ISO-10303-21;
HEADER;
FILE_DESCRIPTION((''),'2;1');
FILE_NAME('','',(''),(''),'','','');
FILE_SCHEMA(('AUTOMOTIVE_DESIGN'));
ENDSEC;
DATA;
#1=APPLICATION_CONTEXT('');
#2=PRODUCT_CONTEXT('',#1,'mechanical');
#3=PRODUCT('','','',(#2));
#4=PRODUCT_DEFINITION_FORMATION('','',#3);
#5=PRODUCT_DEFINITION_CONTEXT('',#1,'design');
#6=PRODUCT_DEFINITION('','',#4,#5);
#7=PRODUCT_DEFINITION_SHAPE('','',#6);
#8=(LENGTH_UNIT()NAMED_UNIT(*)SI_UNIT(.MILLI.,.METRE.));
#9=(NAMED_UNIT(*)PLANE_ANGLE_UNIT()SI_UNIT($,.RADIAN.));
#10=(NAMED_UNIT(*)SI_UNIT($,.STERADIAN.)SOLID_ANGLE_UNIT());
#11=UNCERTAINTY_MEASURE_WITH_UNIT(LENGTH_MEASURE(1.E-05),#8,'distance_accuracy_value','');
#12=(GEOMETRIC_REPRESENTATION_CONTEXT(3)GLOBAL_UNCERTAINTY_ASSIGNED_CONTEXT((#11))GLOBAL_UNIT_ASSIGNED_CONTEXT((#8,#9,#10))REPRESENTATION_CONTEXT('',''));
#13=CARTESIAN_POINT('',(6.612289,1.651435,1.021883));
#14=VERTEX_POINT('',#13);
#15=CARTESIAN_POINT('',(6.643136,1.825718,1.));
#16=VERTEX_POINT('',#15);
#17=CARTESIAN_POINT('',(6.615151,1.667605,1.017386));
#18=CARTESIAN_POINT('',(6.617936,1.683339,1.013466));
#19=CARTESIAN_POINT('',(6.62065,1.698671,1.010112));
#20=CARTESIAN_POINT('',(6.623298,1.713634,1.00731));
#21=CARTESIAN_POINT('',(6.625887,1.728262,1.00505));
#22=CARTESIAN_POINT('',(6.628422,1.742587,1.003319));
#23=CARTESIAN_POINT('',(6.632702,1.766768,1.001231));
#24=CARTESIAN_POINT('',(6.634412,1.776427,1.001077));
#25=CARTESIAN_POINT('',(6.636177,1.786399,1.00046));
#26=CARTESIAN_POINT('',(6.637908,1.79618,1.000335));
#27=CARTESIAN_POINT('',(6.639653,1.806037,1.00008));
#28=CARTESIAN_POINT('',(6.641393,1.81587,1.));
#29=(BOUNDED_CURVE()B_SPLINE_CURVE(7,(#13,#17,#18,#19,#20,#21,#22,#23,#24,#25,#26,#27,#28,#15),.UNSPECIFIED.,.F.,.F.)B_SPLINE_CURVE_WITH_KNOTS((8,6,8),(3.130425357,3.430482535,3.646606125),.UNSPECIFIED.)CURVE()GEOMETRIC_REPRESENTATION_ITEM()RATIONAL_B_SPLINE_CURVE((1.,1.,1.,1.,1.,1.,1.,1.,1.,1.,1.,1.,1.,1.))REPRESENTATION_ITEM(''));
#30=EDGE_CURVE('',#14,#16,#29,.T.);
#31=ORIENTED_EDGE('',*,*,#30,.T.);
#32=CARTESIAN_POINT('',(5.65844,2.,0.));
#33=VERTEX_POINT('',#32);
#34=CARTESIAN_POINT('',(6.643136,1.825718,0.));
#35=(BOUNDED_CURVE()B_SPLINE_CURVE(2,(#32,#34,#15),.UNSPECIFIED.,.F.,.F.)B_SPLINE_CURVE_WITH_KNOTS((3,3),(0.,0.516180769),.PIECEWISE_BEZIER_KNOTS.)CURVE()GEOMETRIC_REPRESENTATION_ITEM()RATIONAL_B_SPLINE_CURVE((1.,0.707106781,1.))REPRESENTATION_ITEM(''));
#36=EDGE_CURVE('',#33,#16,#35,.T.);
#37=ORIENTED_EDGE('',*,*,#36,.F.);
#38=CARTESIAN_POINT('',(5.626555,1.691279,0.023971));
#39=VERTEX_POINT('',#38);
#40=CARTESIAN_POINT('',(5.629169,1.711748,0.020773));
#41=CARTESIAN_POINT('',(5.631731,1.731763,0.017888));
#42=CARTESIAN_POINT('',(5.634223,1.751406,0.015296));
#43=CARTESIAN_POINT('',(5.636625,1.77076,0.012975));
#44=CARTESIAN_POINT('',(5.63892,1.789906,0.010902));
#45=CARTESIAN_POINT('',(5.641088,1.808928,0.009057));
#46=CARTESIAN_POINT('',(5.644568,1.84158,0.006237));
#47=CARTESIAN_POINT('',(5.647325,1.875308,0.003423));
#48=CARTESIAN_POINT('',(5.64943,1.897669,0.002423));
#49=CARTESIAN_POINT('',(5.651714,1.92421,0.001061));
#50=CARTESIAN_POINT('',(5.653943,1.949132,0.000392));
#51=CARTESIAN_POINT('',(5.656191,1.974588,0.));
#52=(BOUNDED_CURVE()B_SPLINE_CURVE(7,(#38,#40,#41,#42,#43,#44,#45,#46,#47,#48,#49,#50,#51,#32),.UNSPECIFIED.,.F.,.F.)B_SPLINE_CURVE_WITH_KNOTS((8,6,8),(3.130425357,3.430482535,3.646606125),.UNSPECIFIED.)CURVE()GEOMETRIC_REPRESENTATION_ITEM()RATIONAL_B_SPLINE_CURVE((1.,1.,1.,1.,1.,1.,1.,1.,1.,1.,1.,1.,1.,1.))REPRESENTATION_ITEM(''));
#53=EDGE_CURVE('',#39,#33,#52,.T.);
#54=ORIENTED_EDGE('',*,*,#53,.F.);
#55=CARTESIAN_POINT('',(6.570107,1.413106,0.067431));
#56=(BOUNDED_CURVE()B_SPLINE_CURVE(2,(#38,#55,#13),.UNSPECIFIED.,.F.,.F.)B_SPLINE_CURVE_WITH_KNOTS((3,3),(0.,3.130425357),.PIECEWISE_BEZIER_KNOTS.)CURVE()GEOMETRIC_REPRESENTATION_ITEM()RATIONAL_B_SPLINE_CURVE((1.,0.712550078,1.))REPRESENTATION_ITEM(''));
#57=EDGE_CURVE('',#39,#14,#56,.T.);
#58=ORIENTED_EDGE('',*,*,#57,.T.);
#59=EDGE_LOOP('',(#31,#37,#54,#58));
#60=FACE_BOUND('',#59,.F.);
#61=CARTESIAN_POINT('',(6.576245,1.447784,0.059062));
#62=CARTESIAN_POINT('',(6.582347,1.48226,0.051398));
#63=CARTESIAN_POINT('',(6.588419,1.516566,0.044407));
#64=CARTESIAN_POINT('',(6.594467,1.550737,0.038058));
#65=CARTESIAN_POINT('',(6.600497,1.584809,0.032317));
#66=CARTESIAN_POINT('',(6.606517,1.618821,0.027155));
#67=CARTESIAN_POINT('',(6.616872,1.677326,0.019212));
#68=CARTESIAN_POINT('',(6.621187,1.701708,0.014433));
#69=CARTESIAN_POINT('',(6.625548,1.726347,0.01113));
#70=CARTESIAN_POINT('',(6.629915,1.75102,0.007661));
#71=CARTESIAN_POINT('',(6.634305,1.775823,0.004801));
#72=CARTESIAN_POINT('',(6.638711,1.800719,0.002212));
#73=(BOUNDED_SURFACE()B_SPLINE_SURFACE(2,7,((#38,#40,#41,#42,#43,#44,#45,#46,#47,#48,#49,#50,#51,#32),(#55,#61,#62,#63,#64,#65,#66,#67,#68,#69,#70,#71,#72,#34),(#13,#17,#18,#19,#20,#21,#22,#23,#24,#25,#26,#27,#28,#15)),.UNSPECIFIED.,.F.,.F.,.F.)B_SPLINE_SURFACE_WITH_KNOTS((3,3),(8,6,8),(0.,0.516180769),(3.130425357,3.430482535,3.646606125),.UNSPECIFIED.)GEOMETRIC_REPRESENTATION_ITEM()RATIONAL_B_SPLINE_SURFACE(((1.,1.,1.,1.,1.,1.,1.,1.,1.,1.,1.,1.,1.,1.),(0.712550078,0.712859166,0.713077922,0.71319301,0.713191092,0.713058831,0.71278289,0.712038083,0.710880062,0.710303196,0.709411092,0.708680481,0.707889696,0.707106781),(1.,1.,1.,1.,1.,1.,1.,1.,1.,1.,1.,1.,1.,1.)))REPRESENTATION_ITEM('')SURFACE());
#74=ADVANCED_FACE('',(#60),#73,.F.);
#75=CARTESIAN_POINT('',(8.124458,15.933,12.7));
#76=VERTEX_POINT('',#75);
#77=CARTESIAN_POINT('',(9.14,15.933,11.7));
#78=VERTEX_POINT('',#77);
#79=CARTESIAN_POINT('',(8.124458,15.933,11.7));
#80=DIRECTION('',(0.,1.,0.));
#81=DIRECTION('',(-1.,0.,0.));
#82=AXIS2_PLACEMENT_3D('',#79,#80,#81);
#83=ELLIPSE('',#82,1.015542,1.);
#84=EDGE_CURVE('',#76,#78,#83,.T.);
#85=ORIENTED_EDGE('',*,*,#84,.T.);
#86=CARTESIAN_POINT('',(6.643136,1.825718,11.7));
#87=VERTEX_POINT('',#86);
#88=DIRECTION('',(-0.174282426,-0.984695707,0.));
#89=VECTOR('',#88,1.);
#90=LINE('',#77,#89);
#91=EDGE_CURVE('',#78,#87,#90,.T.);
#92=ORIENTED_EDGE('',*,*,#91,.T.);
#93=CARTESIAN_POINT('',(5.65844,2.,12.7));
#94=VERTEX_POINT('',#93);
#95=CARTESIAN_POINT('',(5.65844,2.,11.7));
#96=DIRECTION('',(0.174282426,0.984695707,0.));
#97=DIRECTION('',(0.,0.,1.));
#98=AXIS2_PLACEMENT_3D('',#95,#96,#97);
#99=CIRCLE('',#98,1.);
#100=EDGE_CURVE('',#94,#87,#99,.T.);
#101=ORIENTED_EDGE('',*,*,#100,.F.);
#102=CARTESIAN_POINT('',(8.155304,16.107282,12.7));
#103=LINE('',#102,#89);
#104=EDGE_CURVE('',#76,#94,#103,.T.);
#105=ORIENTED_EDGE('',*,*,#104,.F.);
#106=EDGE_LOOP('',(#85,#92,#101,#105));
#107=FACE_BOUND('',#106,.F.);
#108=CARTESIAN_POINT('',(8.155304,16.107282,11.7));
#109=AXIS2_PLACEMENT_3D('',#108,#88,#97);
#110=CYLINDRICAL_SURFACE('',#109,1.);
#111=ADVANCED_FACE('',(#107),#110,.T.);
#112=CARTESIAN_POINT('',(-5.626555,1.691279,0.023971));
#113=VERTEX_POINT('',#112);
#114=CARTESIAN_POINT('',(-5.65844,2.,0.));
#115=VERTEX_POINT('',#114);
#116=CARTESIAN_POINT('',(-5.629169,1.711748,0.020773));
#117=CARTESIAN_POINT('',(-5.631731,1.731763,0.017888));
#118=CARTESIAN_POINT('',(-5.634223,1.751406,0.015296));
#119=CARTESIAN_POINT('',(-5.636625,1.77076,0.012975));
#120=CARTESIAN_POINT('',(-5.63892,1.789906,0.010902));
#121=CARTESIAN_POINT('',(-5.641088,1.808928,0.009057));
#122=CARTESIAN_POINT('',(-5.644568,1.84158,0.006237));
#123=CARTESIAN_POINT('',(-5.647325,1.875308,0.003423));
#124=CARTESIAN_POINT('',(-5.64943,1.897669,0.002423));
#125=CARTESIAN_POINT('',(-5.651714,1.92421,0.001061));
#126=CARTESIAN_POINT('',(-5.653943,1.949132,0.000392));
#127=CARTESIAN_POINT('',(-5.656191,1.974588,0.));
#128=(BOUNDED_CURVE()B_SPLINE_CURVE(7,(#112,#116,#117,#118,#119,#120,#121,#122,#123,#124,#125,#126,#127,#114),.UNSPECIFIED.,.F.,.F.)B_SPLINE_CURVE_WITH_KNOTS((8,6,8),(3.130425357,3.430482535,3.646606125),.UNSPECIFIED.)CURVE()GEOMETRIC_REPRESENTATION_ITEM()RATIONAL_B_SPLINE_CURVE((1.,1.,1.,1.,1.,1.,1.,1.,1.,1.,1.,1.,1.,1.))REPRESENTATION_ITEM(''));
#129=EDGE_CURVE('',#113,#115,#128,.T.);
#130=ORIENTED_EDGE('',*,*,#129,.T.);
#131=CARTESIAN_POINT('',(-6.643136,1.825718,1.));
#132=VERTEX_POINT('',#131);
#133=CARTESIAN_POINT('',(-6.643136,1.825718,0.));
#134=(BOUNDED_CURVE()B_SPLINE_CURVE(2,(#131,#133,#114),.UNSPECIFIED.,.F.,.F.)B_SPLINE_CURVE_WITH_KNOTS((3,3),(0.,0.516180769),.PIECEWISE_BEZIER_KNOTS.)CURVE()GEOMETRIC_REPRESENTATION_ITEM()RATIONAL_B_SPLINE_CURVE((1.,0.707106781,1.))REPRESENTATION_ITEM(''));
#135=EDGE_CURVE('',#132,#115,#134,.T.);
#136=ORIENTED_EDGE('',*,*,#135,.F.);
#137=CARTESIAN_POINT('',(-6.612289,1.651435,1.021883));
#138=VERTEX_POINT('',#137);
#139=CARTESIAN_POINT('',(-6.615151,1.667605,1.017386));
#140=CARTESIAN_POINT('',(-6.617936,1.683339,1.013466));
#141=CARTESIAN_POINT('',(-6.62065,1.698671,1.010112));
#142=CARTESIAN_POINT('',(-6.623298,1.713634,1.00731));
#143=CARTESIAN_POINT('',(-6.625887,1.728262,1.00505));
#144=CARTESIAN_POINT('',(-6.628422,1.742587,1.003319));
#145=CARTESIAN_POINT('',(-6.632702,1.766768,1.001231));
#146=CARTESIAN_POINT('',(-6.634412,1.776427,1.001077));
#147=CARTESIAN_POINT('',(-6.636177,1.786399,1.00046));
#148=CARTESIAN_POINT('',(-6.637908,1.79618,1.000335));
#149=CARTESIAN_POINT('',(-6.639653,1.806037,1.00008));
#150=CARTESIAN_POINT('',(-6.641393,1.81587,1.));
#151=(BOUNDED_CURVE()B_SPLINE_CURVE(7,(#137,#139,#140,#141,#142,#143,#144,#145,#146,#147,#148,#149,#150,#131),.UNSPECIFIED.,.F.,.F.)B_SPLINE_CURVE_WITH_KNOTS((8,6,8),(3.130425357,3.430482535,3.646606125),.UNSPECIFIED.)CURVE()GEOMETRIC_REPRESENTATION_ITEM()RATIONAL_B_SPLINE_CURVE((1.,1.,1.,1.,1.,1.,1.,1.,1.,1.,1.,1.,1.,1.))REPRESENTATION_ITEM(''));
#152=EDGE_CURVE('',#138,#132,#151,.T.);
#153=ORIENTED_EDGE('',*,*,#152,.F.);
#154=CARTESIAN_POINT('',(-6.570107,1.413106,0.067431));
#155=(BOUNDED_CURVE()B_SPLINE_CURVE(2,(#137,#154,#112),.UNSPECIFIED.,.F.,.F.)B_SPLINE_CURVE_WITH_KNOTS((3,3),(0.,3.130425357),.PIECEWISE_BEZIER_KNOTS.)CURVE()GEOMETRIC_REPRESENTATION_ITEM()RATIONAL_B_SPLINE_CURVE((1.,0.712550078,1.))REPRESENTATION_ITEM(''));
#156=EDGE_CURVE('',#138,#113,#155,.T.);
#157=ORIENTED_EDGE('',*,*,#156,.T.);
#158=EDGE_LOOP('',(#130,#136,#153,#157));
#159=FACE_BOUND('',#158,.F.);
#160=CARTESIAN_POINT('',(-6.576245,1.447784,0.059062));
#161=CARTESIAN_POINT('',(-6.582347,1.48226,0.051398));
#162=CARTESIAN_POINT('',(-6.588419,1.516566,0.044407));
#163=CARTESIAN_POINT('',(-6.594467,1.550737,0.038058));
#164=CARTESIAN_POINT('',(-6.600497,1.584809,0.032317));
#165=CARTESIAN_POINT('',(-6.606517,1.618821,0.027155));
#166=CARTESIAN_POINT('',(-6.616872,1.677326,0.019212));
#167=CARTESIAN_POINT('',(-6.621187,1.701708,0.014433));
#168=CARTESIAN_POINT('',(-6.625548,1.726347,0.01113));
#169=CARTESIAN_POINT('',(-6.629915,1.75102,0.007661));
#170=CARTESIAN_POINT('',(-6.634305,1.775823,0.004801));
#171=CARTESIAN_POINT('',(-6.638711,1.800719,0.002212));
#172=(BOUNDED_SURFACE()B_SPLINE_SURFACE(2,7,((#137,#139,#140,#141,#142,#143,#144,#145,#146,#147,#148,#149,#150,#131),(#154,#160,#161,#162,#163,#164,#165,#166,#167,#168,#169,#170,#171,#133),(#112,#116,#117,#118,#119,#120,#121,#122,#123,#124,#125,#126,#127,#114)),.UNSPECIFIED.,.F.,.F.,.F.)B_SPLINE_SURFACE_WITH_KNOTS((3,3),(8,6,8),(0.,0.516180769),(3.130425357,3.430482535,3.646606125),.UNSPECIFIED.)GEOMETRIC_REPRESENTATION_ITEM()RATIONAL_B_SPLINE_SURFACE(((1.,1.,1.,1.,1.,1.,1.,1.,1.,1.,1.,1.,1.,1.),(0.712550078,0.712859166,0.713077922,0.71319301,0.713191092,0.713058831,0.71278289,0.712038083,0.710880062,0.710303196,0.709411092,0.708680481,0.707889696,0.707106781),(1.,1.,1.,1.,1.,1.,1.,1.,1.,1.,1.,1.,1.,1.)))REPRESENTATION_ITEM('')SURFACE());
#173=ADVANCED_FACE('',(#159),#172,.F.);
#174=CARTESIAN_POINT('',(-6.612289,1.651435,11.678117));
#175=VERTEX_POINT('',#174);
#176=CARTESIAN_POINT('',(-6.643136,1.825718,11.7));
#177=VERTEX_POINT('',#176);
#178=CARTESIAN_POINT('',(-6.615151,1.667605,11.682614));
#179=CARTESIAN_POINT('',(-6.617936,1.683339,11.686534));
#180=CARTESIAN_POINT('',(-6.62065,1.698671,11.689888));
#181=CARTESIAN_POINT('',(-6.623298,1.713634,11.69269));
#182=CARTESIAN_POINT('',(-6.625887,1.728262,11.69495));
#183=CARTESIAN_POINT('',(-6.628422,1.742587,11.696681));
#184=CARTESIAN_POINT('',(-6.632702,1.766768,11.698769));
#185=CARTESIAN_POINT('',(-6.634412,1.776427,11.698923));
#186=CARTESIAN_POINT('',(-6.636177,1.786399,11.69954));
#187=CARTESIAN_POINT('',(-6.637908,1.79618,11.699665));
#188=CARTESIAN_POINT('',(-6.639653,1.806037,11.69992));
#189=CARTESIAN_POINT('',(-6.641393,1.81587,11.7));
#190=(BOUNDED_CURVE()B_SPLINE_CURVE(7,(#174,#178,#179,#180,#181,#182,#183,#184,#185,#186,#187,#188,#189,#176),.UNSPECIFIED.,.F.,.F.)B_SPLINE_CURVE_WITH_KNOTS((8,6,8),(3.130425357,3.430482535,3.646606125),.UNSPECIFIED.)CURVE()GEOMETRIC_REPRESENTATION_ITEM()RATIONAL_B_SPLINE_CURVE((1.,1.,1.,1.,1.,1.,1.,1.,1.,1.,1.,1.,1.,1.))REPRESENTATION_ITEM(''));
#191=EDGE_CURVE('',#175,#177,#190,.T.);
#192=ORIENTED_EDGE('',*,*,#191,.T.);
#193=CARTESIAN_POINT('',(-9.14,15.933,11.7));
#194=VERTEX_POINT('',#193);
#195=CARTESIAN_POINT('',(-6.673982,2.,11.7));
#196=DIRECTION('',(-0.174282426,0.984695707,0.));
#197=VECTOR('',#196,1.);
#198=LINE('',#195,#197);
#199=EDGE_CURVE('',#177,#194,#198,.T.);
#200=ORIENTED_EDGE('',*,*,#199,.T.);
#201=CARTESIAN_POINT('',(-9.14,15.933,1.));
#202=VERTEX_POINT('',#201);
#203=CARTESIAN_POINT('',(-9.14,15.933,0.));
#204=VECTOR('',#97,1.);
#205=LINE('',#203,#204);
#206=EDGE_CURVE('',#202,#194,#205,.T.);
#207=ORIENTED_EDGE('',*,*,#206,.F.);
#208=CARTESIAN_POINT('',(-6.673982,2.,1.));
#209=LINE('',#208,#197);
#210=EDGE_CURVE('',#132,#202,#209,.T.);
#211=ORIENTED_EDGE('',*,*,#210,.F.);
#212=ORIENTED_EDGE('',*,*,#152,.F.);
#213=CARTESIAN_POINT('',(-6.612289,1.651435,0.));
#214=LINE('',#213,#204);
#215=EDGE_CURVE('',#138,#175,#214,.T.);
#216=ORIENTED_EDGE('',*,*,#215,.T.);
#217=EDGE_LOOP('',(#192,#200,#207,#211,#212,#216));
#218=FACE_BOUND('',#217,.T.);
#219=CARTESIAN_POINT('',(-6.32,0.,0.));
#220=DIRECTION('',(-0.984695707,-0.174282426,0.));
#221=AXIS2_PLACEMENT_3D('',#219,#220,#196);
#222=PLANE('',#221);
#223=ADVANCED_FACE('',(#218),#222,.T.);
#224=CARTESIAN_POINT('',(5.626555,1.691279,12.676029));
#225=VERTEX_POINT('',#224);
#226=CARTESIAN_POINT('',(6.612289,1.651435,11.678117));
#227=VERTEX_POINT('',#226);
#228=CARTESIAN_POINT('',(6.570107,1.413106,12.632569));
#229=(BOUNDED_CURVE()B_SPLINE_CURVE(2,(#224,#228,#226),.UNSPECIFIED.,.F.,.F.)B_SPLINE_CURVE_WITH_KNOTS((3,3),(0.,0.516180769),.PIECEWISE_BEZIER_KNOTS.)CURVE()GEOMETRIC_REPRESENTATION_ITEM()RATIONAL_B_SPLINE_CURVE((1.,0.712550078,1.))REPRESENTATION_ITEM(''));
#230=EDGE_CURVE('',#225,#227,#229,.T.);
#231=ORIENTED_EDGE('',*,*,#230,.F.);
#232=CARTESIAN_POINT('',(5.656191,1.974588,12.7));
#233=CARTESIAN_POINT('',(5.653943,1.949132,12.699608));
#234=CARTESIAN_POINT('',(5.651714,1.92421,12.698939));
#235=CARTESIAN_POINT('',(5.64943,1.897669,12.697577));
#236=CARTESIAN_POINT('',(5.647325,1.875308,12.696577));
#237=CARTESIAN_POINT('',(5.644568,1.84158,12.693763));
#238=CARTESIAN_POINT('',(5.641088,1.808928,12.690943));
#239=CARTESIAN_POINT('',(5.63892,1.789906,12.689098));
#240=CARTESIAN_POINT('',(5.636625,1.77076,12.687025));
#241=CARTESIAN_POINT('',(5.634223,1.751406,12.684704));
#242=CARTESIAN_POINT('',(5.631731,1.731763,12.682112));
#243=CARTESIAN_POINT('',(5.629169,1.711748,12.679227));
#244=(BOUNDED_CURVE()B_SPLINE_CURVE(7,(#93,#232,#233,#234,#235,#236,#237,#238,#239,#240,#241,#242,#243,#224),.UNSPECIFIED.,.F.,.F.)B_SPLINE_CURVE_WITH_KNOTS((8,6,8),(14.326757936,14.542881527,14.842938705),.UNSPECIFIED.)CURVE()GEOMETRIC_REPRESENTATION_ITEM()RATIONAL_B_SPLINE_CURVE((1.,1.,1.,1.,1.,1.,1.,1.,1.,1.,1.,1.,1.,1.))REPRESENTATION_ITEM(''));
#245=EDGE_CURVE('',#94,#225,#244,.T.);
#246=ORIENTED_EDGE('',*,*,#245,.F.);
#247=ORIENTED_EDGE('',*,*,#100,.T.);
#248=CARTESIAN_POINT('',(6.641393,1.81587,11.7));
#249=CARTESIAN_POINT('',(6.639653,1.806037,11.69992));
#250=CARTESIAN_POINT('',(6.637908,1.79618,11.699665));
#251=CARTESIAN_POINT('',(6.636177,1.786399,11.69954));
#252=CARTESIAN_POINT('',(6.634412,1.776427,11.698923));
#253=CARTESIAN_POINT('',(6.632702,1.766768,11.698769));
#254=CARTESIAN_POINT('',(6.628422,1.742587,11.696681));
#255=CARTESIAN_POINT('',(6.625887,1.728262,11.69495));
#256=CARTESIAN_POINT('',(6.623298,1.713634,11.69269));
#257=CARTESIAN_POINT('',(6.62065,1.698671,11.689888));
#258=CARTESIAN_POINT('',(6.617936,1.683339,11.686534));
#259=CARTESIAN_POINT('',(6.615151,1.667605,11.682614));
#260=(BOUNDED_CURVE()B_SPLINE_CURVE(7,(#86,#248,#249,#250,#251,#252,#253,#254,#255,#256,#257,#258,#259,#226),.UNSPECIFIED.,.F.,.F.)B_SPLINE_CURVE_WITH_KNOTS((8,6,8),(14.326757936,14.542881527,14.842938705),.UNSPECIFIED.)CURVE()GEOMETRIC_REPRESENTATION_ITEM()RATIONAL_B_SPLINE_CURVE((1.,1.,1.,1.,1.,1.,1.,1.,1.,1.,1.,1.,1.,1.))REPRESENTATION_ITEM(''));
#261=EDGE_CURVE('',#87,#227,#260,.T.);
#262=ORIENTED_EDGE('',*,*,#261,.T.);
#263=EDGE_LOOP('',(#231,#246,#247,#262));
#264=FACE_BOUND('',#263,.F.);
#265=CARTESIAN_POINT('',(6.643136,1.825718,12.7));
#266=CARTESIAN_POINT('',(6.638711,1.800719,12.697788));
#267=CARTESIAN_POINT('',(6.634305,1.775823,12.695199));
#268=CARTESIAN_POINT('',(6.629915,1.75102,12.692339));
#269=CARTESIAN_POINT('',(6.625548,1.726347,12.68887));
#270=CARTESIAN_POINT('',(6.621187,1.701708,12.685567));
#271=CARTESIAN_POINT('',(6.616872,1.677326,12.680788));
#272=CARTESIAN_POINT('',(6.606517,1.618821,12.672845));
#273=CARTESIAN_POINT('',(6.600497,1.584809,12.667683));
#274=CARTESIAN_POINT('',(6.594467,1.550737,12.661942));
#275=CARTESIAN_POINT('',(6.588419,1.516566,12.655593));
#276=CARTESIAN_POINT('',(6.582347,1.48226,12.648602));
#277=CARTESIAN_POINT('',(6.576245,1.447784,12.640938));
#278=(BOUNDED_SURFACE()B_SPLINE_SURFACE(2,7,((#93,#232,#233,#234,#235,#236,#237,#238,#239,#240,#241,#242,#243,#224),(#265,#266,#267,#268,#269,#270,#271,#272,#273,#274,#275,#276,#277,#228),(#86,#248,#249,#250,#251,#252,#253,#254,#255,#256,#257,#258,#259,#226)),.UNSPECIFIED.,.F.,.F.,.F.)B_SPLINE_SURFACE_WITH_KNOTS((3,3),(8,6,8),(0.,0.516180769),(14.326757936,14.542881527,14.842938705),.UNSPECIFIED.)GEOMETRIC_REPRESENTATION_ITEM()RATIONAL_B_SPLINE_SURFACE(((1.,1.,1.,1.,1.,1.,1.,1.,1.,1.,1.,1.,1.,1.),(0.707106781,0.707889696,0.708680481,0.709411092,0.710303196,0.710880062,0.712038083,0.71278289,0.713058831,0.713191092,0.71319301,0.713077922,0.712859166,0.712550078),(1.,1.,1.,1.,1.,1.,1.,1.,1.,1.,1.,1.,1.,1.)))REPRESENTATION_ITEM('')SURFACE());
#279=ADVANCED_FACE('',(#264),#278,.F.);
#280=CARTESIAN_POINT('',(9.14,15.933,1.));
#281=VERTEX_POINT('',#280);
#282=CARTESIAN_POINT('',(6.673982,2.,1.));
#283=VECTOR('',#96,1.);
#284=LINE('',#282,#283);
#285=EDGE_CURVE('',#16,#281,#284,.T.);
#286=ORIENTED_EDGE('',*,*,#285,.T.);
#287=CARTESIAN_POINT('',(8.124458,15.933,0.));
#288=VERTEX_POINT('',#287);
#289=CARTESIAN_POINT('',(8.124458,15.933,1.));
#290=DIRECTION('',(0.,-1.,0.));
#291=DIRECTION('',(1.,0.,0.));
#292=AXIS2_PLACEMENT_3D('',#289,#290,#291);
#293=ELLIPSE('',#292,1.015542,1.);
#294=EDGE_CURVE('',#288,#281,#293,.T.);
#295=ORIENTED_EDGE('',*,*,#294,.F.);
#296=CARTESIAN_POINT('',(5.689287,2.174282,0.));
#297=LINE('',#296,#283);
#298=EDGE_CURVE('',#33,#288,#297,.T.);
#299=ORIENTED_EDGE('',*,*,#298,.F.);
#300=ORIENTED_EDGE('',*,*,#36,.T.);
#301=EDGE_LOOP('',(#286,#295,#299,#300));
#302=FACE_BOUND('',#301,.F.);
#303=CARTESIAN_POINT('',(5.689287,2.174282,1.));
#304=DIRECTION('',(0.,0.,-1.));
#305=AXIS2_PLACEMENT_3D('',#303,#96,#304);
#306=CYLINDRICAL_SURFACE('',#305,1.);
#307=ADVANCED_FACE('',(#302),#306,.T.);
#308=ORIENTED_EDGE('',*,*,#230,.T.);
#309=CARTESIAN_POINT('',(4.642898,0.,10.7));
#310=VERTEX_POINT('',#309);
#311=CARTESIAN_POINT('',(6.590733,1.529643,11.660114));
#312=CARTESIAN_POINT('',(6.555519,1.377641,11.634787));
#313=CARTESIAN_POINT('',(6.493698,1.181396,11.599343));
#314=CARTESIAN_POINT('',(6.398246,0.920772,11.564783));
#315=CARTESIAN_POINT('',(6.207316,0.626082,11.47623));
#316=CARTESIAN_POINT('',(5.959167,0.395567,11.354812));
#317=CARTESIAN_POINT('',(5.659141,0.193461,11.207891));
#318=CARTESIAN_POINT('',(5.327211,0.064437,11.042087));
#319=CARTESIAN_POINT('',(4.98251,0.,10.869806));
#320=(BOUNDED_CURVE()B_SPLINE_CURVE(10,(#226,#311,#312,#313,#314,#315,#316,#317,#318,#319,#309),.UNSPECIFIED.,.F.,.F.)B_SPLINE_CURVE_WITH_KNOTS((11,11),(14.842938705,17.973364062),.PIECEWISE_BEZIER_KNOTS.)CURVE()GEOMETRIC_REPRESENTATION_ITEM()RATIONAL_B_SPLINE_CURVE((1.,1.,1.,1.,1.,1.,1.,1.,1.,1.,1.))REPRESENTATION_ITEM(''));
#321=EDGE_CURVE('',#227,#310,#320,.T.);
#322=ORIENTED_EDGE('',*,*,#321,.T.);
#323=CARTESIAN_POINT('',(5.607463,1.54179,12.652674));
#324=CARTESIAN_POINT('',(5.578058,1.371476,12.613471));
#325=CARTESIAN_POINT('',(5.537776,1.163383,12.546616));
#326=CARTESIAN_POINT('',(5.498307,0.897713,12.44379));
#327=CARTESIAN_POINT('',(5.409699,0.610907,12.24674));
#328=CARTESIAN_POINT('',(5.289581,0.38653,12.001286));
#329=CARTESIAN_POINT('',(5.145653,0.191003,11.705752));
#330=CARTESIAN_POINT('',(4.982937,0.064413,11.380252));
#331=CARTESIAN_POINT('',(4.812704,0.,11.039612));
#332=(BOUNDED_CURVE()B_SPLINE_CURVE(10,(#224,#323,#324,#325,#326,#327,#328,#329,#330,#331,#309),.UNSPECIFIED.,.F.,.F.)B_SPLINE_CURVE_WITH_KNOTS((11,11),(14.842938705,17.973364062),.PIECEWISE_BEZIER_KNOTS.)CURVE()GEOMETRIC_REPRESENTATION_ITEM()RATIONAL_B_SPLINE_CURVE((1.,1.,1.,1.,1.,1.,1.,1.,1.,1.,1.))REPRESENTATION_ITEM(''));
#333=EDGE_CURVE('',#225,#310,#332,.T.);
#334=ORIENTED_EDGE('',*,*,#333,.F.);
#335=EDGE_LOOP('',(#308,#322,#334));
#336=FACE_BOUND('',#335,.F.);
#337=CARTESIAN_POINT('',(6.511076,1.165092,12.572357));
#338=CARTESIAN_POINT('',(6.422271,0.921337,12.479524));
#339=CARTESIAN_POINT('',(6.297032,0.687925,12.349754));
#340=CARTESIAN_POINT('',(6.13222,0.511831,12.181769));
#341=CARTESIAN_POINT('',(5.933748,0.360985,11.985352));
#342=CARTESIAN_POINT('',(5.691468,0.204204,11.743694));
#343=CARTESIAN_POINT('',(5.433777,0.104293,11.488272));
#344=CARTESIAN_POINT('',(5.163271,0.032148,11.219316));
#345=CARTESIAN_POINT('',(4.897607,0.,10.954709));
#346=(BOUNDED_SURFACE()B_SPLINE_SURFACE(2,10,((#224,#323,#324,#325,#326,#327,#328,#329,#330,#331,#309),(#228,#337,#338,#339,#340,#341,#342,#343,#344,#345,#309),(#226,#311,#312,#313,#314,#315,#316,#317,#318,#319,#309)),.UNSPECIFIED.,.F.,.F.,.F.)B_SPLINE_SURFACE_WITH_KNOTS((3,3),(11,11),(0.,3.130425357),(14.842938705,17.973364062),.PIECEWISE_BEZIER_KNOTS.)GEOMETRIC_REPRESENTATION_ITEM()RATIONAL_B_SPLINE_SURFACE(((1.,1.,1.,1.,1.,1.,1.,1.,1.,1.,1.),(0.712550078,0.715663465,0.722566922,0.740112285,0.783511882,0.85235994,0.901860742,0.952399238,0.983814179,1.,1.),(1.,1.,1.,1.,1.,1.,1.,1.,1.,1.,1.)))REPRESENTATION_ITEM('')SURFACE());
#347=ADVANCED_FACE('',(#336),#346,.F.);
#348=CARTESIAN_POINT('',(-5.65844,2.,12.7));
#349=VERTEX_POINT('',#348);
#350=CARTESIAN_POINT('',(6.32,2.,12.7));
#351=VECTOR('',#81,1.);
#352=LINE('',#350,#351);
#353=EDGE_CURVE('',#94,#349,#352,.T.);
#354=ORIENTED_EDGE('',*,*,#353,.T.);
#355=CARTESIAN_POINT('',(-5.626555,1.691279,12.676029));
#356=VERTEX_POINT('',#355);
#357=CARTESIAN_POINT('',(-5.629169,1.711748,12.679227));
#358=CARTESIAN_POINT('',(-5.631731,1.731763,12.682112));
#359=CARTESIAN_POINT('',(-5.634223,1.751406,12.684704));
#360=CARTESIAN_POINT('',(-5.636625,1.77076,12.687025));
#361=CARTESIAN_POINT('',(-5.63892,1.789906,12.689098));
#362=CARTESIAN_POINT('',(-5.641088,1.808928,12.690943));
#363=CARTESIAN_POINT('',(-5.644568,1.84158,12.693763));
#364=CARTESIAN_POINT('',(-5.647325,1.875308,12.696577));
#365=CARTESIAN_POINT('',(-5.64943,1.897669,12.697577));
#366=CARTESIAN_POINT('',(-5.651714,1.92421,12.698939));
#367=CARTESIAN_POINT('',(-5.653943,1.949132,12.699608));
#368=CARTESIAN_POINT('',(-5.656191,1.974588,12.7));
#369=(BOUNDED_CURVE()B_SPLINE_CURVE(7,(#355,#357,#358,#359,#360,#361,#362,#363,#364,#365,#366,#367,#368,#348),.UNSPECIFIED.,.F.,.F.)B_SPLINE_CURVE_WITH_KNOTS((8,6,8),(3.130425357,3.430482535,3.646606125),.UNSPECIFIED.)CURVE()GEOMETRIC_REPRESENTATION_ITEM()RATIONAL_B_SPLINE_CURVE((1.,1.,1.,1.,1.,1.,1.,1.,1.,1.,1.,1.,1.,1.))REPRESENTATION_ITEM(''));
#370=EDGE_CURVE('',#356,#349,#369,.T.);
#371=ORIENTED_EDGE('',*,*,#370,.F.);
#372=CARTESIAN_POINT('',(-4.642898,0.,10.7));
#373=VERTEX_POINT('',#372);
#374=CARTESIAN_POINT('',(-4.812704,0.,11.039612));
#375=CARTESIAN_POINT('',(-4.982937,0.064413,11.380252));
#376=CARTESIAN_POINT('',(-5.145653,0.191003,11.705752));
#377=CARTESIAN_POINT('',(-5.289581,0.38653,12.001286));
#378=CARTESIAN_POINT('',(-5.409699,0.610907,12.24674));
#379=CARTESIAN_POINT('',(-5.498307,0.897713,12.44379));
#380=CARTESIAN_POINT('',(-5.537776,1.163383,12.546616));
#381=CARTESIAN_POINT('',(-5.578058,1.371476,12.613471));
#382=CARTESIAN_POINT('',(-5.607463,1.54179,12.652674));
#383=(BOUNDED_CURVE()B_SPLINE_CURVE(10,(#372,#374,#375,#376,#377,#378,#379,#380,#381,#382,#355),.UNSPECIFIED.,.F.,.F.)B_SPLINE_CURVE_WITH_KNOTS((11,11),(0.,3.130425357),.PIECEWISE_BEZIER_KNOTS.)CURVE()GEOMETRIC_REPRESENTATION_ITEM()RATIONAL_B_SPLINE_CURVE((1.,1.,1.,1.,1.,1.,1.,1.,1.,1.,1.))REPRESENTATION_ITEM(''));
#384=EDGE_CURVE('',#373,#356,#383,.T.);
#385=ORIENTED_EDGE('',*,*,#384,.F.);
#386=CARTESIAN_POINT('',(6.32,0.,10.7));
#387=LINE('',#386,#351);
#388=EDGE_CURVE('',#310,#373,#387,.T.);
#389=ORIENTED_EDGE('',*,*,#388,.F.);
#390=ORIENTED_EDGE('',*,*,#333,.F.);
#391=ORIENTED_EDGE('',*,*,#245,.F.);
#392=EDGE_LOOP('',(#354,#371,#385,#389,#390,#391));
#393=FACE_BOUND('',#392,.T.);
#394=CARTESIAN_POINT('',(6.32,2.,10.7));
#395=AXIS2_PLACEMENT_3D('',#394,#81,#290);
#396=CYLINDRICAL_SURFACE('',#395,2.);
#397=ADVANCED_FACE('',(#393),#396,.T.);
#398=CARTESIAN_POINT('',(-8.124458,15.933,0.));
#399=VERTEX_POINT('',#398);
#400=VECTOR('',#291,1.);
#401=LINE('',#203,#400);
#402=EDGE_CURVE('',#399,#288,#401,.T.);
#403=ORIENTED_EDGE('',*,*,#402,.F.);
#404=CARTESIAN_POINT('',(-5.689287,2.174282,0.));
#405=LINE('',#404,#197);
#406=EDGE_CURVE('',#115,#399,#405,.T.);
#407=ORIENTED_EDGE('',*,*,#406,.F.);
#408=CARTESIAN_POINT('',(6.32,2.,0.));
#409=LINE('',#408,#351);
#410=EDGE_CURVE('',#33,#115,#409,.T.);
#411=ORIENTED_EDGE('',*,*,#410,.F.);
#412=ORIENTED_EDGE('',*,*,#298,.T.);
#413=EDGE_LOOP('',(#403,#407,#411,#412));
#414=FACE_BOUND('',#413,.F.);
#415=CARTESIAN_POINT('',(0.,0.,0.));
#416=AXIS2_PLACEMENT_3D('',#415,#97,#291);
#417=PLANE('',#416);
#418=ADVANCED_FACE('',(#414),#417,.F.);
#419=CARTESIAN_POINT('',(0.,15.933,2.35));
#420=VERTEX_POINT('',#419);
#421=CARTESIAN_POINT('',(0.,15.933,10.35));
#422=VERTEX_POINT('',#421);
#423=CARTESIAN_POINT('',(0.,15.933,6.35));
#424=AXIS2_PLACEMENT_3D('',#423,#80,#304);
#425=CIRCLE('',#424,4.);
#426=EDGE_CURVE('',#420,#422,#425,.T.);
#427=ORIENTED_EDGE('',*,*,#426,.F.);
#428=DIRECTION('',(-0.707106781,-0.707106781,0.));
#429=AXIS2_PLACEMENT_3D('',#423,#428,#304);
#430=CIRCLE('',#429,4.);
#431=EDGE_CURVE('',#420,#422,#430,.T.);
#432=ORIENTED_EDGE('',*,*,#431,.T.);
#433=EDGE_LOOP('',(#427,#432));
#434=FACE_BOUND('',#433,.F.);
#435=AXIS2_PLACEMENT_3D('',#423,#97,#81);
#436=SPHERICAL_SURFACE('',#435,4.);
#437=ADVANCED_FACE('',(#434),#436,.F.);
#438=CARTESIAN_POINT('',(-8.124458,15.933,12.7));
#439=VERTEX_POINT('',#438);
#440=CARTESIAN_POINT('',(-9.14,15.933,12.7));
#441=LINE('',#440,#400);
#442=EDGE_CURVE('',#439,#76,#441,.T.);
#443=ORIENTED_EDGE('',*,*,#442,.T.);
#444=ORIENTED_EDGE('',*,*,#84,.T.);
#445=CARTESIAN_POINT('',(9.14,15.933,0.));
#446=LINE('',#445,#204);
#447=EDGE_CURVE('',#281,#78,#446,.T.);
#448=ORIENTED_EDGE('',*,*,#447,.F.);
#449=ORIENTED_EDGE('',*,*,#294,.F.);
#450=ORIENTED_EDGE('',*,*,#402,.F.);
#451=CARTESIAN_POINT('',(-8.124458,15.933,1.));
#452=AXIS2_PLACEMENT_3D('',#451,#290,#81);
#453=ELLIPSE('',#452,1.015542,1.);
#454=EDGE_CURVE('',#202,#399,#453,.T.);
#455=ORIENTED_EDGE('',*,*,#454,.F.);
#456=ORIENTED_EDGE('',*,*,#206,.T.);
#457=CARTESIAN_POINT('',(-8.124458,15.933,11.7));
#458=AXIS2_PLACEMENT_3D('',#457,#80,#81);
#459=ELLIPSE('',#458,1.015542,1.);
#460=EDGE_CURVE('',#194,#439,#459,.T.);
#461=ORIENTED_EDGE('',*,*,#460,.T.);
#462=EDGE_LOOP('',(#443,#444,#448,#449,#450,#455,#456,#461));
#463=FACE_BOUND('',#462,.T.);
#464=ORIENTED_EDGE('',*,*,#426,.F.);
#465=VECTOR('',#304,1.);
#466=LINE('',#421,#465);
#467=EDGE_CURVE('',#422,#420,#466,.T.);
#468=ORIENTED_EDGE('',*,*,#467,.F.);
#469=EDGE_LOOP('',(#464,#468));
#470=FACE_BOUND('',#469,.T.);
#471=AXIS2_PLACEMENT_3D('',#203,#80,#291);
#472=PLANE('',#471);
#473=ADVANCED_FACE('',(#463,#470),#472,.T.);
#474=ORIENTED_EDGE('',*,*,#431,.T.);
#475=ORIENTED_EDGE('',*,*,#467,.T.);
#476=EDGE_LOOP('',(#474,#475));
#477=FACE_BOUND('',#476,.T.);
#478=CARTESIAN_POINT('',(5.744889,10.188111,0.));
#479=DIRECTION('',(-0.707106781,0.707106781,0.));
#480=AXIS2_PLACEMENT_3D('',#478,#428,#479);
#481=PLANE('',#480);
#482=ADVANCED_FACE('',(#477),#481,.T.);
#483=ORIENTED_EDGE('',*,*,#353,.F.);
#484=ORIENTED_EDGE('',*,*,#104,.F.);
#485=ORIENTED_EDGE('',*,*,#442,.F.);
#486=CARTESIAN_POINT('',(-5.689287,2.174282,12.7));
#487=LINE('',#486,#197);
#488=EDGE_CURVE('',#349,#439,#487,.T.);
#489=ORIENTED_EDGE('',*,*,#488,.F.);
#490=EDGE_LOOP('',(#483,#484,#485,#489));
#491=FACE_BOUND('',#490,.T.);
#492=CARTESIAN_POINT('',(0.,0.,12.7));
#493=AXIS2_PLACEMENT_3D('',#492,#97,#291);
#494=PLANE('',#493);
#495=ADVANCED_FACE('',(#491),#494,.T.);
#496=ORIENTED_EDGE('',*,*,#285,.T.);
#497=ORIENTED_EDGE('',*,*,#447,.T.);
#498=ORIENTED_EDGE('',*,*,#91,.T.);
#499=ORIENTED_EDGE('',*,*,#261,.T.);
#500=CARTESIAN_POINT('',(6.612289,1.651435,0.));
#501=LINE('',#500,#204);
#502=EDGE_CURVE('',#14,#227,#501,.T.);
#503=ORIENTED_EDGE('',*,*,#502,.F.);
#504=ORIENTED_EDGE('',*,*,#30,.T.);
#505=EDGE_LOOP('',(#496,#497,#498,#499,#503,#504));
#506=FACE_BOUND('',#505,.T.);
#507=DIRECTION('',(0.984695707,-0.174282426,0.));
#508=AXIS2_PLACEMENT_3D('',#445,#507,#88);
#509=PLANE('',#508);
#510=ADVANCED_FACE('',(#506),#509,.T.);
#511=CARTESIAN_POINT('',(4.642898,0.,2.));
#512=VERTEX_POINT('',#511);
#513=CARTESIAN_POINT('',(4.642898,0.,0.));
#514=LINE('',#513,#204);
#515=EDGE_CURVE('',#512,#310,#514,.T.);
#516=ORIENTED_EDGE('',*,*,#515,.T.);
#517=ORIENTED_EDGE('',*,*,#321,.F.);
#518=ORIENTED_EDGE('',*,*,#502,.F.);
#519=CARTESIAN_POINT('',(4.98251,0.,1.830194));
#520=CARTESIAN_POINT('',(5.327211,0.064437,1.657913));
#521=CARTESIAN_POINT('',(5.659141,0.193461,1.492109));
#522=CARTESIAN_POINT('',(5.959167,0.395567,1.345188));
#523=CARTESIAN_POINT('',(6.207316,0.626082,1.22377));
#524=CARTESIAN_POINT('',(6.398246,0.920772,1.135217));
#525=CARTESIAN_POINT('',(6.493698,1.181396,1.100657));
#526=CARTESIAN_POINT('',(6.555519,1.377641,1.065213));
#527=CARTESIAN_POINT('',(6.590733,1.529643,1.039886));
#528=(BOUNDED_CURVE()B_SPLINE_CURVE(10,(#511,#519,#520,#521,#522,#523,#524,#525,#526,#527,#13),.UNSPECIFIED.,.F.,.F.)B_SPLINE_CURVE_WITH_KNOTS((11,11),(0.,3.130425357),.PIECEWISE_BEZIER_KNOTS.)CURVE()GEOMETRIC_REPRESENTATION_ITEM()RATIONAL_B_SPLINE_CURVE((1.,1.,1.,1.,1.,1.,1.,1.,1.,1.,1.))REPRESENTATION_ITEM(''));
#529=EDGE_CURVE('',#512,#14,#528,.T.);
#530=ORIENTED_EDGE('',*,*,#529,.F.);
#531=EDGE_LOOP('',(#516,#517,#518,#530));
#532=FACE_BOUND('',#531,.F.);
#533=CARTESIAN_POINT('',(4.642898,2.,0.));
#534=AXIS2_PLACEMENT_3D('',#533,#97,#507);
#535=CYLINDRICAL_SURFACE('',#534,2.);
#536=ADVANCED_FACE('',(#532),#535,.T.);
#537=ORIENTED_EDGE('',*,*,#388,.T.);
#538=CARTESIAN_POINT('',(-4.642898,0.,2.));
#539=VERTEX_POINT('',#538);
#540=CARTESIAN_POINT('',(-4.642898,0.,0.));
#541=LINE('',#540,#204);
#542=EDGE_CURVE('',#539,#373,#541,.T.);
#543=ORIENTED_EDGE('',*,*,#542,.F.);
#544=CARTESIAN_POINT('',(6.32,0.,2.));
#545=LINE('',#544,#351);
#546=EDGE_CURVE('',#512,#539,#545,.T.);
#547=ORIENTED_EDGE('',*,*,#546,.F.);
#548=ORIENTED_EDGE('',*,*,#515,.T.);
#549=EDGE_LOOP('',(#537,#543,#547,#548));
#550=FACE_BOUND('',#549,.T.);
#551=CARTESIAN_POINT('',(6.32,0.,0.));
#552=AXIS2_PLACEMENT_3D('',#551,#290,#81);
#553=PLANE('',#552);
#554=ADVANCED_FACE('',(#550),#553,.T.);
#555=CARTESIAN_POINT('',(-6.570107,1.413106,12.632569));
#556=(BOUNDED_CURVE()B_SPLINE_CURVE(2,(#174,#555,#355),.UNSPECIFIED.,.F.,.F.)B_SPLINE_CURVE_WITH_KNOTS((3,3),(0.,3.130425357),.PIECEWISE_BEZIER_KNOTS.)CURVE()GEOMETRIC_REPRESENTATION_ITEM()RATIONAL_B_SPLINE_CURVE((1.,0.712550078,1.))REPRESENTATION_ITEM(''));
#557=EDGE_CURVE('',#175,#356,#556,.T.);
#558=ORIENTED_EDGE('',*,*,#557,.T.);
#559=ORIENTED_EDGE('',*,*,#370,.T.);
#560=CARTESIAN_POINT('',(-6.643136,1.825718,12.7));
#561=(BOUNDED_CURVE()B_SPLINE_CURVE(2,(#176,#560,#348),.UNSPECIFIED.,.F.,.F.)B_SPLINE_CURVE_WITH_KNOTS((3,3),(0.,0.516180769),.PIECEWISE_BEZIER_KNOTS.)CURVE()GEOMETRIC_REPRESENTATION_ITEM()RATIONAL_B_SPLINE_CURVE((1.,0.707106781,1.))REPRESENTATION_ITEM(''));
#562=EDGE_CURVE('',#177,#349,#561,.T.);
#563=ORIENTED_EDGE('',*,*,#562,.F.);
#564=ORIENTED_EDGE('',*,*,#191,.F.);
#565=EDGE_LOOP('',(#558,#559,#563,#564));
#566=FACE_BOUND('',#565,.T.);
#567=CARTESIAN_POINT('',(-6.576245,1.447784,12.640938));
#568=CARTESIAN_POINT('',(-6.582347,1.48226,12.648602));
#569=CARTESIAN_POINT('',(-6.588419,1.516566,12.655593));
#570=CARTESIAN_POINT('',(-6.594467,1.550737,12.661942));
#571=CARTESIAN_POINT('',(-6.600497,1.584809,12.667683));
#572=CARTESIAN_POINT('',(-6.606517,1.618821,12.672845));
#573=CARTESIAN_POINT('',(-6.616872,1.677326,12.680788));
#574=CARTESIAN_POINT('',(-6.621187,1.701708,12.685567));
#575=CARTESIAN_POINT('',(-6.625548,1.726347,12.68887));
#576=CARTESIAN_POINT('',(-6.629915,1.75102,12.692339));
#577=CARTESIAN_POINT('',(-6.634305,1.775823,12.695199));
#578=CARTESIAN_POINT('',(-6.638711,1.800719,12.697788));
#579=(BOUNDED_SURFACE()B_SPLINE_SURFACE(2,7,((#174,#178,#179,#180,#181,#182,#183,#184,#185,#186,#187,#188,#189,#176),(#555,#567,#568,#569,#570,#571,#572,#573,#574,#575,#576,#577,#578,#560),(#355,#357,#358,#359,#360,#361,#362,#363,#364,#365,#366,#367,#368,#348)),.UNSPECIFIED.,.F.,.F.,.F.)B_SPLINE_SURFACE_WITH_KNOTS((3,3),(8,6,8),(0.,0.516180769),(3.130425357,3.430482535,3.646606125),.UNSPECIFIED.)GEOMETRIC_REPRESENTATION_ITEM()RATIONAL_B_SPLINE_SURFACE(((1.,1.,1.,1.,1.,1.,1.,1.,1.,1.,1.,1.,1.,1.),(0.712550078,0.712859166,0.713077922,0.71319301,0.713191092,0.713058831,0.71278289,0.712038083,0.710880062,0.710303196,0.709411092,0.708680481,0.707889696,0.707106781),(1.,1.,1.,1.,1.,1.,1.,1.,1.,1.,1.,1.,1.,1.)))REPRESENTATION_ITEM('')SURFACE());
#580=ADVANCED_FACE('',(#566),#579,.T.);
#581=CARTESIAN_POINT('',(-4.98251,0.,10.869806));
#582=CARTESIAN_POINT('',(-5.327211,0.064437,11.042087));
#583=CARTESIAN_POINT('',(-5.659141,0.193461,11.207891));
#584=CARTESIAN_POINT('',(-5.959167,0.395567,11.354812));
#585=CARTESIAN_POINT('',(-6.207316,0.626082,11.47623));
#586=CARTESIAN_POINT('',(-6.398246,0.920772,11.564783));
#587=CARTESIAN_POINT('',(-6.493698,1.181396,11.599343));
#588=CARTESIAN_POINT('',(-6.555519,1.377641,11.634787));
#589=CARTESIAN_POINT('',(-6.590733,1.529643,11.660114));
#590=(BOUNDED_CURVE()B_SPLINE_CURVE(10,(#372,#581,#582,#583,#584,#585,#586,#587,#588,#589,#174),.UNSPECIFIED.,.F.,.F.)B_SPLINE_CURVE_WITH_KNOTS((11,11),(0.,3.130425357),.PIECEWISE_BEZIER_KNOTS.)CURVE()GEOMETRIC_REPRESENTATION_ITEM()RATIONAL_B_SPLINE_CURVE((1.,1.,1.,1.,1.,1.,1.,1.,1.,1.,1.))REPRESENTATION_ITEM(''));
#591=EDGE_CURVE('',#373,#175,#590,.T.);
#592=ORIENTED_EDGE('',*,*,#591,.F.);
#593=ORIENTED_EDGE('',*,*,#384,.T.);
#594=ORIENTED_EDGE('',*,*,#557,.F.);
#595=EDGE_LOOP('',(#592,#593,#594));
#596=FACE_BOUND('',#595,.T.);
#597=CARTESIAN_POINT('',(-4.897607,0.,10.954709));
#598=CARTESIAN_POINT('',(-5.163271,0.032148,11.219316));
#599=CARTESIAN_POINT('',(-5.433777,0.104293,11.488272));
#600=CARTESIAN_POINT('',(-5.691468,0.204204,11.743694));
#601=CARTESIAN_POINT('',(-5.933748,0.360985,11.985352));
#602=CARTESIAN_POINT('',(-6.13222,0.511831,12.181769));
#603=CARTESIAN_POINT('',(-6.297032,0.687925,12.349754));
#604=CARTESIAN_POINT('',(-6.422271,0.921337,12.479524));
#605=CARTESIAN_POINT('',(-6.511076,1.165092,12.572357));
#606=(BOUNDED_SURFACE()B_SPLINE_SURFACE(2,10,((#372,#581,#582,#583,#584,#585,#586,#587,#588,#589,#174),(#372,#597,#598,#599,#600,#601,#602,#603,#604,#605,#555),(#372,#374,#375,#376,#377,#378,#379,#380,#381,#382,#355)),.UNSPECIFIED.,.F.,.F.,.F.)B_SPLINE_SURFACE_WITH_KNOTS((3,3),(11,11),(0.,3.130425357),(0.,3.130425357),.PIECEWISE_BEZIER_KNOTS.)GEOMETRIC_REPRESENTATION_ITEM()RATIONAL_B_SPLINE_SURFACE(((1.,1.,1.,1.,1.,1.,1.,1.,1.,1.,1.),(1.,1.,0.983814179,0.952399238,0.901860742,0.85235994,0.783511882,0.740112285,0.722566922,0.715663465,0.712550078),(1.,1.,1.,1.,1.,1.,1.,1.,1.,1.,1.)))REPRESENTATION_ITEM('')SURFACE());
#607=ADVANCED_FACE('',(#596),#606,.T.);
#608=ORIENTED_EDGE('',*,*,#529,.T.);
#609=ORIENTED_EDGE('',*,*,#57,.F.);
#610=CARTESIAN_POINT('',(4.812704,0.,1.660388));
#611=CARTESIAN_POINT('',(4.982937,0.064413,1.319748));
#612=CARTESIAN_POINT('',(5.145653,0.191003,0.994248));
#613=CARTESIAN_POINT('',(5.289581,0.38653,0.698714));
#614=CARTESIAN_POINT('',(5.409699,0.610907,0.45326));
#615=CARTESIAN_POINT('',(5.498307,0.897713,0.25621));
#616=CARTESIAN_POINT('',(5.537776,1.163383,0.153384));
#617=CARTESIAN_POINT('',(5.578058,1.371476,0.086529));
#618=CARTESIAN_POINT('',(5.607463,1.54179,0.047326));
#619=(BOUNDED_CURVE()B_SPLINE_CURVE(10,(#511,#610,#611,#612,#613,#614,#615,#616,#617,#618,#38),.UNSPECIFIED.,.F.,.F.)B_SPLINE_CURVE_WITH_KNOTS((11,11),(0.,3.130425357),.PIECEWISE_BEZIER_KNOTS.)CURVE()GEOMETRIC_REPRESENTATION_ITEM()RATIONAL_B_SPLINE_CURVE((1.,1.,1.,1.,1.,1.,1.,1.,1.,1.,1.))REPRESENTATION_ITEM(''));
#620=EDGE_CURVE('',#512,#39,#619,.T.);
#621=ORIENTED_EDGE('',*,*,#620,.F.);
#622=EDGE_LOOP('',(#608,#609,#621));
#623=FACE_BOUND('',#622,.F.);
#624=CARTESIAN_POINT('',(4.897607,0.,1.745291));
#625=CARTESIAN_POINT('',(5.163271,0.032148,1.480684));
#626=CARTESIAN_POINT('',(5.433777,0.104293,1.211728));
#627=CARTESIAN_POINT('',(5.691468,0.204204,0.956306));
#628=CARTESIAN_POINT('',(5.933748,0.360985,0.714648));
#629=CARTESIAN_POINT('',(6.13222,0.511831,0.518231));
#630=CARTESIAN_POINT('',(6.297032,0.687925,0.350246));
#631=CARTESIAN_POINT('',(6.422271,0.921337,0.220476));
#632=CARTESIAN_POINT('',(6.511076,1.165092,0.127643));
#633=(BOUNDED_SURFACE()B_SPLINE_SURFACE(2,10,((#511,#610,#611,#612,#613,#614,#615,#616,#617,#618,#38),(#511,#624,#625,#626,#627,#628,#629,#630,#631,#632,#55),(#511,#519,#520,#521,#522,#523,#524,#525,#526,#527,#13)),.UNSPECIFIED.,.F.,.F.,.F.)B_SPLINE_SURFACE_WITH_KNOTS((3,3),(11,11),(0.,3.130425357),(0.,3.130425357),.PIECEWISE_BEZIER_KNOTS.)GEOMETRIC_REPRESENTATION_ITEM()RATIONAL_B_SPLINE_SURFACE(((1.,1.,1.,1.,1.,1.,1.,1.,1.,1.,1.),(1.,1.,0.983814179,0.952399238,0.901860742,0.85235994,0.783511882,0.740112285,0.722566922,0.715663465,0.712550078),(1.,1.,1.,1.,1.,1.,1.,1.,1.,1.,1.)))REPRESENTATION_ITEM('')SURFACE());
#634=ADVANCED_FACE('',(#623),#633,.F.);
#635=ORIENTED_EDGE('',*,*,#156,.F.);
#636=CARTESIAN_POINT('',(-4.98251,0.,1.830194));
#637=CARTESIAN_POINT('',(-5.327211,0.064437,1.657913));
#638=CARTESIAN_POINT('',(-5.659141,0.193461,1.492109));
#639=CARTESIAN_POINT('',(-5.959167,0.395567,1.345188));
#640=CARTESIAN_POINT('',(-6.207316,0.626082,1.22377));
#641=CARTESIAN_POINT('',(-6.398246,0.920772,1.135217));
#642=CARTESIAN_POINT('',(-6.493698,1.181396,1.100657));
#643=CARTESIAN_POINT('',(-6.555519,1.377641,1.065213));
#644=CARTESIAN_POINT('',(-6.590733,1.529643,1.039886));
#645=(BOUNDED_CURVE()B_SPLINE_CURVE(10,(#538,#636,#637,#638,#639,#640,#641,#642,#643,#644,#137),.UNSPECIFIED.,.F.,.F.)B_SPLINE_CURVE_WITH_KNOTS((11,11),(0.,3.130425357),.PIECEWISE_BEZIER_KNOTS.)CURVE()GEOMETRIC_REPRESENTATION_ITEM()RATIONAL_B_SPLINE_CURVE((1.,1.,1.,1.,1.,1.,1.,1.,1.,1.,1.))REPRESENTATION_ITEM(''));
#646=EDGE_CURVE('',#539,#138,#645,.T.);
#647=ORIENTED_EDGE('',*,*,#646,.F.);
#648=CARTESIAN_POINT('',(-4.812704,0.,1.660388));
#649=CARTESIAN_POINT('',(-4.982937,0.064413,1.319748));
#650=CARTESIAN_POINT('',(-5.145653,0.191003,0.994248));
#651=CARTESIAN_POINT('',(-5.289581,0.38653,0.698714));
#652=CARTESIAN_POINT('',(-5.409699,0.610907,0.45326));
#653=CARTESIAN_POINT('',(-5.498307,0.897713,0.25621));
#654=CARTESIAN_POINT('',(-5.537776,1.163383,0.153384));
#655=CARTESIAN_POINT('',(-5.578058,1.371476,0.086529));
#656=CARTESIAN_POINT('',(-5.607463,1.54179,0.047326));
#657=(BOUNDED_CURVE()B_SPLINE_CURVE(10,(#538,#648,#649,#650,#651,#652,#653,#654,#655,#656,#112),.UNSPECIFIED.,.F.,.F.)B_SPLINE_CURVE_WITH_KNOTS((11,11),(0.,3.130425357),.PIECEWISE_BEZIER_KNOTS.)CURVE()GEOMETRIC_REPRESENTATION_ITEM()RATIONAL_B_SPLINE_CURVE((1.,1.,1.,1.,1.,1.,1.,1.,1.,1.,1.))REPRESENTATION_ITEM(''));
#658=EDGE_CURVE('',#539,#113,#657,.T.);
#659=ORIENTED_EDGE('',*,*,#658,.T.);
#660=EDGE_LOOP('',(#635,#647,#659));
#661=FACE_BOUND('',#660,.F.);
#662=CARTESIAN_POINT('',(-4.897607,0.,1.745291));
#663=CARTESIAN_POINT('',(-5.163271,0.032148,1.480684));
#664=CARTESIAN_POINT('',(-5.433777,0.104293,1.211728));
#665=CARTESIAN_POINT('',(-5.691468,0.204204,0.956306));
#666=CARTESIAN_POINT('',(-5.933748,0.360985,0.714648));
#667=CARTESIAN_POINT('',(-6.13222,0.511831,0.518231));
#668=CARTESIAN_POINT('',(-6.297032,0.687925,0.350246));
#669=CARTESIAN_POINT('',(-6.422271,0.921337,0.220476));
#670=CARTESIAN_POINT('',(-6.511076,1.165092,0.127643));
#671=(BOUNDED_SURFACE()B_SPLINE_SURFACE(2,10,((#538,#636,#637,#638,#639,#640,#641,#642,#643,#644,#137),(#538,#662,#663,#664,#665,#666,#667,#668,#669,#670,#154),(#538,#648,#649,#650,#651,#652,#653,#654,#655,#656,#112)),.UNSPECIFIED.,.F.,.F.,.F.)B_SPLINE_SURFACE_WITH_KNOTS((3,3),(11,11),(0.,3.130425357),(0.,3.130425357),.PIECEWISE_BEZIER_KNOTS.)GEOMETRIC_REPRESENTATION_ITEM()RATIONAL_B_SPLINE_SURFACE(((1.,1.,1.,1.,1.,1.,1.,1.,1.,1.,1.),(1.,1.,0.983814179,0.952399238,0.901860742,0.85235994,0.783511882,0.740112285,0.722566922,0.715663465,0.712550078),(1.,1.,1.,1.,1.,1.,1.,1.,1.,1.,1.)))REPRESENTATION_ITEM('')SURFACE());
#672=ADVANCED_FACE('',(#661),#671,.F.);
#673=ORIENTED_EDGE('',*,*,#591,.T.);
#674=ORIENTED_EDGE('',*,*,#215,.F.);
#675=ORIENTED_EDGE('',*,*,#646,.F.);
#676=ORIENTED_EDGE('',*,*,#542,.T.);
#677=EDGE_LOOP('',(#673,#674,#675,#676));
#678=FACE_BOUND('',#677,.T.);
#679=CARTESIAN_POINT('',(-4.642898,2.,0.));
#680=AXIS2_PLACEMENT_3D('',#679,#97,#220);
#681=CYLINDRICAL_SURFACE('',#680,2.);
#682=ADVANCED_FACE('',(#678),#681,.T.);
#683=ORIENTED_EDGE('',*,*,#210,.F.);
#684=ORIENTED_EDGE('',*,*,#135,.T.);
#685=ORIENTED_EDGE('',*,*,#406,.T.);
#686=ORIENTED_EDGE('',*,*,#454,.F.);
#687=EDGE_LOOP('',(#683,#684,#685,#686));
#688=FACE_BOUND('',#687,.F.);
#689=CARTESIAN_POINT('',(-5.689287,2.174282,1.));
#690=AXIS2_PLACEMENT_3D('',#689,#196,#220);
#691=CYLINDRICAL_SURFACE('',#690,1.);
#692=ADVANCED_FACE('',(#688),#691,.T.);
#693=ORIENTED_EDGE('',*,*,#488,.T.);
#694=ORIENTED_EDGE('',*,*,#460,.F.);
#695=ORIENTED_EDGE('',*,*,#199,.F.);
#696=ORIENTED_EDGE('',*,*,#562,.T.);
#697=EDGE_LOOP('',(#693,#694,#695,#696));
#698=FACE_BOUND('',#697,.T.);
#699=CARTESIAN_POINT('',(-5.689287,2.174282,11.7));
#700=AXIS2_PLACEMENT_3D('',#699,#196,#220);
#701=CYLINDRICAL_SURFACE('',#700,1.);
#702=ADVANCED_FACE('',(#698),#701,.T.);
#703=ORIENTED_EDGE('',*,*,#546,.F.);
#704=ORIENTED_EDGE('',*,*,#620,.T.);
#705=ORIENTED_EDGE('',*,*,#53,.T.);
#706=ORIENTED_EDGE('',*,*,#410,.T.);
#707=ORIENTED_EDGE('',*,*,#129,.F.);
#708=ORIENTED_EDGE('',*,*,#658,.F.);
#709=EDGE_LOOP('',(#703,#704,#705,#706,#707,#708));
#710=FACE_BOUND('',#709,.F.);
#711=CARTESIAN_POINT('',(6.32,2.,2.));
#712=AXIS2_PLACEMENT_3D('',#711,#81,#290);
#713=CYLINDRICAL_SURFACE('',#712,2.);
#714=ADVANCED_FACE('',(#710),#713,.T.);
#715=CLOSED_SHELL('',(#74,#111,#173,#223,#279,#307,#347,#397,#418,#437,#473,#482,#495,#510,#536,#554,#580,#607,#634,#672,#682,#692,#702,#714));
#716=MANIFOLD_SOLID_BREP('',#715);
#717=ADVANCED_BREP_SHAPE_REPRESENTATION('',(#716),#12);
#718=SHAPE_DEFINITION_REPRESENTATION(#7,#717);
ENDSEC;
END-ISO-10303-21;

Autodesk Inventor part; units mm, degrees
ref_plane "YZ Plane" through (0, 0, 0) normal (1, 0, 0) x (0, 1, 0)
ref_plane "XZ Plane" through (0, 0, 0) normal (0, 1, 0) x (-1, 0, 0)
ref_plane "XY Plane" through (0, 0, 0) normal (0, 0, 1) x (1, 0, 0)
sketch "Sketch1" plane through (0, 0, 0) normal (0, 0, 1) x (1, 0, 0)
  line L0 (-6.32, 0) -> (-9.14, 15.933)
  line L1 (-9.14, 15.933) -> (9.14, 15.933)
  line L2 (9.14, 15.933) -> (6.32, 0)
  line L3 (6.32, 0) -> (-6.32, 0)
  point P0 (0, 0)
  point P1 (0, 15.933)
  point P2 (0, 0)
  dimension "d0" = 2.82
  dimension "d1" = 15.933
  dimension "d2" = 12.64
extrude "Extrusion1" add sketch "Sketch1" along normal blind 12.7
fillet "Fillet1" radius 2 4 edges at (0, 0, 0) (6.32, 0, 6.35) (0, 0, 12.7) (-6.32, 0, 6.35)
fillet "Fillet2" radius 1 12 edges at (7.907, 8.9665, 12.7) (5.928, 0.4675, 11.9851) (6.643, 1.825, 12.6923) (5.928, 0.4675, 0.7149) (7.907, 8.9665, 0) (6.643, 1.825, 0.0077) (-6.643, 1.825, 0.0077) (-7.907, 8.9665, 0) (-5.928, 0.4675, 0.7149) (-5.928, 0.4675, 11.9851) (-7.907, 8.9665, 12.7) (-6.643, 1.825, 12.6923)
sketch "Sketch2" plane through (-8.1245, 15.933, 0) normal (0, 1, 0) x (1, 0, 0)
  arc A0 (8.1245, -2.35) -> (8.1245, -10.35) centre (8.1245, -6.35) ccw
  line L0 (16.2489, 0) -> (0, 0) projected
  line L1 (8.1245, -10.35) -> (8.1245, -2.35)
  line L2 (-1.0155, -1) -> (-1.0155, -11.7) projected
  point P0 (8.1245, 0)
  point P1 (8.1245, 0)
  point P2 (-1.0155, -6.35)
  dimension "d7" = 4
revolve "Revolution1" cut sketch "Sketch2" angle 135 about axis through (0, 15.933, 10.35) along (0, 0, 1)
properties part number "OwnSpectr_TubeHolder_D_3DPrint"
